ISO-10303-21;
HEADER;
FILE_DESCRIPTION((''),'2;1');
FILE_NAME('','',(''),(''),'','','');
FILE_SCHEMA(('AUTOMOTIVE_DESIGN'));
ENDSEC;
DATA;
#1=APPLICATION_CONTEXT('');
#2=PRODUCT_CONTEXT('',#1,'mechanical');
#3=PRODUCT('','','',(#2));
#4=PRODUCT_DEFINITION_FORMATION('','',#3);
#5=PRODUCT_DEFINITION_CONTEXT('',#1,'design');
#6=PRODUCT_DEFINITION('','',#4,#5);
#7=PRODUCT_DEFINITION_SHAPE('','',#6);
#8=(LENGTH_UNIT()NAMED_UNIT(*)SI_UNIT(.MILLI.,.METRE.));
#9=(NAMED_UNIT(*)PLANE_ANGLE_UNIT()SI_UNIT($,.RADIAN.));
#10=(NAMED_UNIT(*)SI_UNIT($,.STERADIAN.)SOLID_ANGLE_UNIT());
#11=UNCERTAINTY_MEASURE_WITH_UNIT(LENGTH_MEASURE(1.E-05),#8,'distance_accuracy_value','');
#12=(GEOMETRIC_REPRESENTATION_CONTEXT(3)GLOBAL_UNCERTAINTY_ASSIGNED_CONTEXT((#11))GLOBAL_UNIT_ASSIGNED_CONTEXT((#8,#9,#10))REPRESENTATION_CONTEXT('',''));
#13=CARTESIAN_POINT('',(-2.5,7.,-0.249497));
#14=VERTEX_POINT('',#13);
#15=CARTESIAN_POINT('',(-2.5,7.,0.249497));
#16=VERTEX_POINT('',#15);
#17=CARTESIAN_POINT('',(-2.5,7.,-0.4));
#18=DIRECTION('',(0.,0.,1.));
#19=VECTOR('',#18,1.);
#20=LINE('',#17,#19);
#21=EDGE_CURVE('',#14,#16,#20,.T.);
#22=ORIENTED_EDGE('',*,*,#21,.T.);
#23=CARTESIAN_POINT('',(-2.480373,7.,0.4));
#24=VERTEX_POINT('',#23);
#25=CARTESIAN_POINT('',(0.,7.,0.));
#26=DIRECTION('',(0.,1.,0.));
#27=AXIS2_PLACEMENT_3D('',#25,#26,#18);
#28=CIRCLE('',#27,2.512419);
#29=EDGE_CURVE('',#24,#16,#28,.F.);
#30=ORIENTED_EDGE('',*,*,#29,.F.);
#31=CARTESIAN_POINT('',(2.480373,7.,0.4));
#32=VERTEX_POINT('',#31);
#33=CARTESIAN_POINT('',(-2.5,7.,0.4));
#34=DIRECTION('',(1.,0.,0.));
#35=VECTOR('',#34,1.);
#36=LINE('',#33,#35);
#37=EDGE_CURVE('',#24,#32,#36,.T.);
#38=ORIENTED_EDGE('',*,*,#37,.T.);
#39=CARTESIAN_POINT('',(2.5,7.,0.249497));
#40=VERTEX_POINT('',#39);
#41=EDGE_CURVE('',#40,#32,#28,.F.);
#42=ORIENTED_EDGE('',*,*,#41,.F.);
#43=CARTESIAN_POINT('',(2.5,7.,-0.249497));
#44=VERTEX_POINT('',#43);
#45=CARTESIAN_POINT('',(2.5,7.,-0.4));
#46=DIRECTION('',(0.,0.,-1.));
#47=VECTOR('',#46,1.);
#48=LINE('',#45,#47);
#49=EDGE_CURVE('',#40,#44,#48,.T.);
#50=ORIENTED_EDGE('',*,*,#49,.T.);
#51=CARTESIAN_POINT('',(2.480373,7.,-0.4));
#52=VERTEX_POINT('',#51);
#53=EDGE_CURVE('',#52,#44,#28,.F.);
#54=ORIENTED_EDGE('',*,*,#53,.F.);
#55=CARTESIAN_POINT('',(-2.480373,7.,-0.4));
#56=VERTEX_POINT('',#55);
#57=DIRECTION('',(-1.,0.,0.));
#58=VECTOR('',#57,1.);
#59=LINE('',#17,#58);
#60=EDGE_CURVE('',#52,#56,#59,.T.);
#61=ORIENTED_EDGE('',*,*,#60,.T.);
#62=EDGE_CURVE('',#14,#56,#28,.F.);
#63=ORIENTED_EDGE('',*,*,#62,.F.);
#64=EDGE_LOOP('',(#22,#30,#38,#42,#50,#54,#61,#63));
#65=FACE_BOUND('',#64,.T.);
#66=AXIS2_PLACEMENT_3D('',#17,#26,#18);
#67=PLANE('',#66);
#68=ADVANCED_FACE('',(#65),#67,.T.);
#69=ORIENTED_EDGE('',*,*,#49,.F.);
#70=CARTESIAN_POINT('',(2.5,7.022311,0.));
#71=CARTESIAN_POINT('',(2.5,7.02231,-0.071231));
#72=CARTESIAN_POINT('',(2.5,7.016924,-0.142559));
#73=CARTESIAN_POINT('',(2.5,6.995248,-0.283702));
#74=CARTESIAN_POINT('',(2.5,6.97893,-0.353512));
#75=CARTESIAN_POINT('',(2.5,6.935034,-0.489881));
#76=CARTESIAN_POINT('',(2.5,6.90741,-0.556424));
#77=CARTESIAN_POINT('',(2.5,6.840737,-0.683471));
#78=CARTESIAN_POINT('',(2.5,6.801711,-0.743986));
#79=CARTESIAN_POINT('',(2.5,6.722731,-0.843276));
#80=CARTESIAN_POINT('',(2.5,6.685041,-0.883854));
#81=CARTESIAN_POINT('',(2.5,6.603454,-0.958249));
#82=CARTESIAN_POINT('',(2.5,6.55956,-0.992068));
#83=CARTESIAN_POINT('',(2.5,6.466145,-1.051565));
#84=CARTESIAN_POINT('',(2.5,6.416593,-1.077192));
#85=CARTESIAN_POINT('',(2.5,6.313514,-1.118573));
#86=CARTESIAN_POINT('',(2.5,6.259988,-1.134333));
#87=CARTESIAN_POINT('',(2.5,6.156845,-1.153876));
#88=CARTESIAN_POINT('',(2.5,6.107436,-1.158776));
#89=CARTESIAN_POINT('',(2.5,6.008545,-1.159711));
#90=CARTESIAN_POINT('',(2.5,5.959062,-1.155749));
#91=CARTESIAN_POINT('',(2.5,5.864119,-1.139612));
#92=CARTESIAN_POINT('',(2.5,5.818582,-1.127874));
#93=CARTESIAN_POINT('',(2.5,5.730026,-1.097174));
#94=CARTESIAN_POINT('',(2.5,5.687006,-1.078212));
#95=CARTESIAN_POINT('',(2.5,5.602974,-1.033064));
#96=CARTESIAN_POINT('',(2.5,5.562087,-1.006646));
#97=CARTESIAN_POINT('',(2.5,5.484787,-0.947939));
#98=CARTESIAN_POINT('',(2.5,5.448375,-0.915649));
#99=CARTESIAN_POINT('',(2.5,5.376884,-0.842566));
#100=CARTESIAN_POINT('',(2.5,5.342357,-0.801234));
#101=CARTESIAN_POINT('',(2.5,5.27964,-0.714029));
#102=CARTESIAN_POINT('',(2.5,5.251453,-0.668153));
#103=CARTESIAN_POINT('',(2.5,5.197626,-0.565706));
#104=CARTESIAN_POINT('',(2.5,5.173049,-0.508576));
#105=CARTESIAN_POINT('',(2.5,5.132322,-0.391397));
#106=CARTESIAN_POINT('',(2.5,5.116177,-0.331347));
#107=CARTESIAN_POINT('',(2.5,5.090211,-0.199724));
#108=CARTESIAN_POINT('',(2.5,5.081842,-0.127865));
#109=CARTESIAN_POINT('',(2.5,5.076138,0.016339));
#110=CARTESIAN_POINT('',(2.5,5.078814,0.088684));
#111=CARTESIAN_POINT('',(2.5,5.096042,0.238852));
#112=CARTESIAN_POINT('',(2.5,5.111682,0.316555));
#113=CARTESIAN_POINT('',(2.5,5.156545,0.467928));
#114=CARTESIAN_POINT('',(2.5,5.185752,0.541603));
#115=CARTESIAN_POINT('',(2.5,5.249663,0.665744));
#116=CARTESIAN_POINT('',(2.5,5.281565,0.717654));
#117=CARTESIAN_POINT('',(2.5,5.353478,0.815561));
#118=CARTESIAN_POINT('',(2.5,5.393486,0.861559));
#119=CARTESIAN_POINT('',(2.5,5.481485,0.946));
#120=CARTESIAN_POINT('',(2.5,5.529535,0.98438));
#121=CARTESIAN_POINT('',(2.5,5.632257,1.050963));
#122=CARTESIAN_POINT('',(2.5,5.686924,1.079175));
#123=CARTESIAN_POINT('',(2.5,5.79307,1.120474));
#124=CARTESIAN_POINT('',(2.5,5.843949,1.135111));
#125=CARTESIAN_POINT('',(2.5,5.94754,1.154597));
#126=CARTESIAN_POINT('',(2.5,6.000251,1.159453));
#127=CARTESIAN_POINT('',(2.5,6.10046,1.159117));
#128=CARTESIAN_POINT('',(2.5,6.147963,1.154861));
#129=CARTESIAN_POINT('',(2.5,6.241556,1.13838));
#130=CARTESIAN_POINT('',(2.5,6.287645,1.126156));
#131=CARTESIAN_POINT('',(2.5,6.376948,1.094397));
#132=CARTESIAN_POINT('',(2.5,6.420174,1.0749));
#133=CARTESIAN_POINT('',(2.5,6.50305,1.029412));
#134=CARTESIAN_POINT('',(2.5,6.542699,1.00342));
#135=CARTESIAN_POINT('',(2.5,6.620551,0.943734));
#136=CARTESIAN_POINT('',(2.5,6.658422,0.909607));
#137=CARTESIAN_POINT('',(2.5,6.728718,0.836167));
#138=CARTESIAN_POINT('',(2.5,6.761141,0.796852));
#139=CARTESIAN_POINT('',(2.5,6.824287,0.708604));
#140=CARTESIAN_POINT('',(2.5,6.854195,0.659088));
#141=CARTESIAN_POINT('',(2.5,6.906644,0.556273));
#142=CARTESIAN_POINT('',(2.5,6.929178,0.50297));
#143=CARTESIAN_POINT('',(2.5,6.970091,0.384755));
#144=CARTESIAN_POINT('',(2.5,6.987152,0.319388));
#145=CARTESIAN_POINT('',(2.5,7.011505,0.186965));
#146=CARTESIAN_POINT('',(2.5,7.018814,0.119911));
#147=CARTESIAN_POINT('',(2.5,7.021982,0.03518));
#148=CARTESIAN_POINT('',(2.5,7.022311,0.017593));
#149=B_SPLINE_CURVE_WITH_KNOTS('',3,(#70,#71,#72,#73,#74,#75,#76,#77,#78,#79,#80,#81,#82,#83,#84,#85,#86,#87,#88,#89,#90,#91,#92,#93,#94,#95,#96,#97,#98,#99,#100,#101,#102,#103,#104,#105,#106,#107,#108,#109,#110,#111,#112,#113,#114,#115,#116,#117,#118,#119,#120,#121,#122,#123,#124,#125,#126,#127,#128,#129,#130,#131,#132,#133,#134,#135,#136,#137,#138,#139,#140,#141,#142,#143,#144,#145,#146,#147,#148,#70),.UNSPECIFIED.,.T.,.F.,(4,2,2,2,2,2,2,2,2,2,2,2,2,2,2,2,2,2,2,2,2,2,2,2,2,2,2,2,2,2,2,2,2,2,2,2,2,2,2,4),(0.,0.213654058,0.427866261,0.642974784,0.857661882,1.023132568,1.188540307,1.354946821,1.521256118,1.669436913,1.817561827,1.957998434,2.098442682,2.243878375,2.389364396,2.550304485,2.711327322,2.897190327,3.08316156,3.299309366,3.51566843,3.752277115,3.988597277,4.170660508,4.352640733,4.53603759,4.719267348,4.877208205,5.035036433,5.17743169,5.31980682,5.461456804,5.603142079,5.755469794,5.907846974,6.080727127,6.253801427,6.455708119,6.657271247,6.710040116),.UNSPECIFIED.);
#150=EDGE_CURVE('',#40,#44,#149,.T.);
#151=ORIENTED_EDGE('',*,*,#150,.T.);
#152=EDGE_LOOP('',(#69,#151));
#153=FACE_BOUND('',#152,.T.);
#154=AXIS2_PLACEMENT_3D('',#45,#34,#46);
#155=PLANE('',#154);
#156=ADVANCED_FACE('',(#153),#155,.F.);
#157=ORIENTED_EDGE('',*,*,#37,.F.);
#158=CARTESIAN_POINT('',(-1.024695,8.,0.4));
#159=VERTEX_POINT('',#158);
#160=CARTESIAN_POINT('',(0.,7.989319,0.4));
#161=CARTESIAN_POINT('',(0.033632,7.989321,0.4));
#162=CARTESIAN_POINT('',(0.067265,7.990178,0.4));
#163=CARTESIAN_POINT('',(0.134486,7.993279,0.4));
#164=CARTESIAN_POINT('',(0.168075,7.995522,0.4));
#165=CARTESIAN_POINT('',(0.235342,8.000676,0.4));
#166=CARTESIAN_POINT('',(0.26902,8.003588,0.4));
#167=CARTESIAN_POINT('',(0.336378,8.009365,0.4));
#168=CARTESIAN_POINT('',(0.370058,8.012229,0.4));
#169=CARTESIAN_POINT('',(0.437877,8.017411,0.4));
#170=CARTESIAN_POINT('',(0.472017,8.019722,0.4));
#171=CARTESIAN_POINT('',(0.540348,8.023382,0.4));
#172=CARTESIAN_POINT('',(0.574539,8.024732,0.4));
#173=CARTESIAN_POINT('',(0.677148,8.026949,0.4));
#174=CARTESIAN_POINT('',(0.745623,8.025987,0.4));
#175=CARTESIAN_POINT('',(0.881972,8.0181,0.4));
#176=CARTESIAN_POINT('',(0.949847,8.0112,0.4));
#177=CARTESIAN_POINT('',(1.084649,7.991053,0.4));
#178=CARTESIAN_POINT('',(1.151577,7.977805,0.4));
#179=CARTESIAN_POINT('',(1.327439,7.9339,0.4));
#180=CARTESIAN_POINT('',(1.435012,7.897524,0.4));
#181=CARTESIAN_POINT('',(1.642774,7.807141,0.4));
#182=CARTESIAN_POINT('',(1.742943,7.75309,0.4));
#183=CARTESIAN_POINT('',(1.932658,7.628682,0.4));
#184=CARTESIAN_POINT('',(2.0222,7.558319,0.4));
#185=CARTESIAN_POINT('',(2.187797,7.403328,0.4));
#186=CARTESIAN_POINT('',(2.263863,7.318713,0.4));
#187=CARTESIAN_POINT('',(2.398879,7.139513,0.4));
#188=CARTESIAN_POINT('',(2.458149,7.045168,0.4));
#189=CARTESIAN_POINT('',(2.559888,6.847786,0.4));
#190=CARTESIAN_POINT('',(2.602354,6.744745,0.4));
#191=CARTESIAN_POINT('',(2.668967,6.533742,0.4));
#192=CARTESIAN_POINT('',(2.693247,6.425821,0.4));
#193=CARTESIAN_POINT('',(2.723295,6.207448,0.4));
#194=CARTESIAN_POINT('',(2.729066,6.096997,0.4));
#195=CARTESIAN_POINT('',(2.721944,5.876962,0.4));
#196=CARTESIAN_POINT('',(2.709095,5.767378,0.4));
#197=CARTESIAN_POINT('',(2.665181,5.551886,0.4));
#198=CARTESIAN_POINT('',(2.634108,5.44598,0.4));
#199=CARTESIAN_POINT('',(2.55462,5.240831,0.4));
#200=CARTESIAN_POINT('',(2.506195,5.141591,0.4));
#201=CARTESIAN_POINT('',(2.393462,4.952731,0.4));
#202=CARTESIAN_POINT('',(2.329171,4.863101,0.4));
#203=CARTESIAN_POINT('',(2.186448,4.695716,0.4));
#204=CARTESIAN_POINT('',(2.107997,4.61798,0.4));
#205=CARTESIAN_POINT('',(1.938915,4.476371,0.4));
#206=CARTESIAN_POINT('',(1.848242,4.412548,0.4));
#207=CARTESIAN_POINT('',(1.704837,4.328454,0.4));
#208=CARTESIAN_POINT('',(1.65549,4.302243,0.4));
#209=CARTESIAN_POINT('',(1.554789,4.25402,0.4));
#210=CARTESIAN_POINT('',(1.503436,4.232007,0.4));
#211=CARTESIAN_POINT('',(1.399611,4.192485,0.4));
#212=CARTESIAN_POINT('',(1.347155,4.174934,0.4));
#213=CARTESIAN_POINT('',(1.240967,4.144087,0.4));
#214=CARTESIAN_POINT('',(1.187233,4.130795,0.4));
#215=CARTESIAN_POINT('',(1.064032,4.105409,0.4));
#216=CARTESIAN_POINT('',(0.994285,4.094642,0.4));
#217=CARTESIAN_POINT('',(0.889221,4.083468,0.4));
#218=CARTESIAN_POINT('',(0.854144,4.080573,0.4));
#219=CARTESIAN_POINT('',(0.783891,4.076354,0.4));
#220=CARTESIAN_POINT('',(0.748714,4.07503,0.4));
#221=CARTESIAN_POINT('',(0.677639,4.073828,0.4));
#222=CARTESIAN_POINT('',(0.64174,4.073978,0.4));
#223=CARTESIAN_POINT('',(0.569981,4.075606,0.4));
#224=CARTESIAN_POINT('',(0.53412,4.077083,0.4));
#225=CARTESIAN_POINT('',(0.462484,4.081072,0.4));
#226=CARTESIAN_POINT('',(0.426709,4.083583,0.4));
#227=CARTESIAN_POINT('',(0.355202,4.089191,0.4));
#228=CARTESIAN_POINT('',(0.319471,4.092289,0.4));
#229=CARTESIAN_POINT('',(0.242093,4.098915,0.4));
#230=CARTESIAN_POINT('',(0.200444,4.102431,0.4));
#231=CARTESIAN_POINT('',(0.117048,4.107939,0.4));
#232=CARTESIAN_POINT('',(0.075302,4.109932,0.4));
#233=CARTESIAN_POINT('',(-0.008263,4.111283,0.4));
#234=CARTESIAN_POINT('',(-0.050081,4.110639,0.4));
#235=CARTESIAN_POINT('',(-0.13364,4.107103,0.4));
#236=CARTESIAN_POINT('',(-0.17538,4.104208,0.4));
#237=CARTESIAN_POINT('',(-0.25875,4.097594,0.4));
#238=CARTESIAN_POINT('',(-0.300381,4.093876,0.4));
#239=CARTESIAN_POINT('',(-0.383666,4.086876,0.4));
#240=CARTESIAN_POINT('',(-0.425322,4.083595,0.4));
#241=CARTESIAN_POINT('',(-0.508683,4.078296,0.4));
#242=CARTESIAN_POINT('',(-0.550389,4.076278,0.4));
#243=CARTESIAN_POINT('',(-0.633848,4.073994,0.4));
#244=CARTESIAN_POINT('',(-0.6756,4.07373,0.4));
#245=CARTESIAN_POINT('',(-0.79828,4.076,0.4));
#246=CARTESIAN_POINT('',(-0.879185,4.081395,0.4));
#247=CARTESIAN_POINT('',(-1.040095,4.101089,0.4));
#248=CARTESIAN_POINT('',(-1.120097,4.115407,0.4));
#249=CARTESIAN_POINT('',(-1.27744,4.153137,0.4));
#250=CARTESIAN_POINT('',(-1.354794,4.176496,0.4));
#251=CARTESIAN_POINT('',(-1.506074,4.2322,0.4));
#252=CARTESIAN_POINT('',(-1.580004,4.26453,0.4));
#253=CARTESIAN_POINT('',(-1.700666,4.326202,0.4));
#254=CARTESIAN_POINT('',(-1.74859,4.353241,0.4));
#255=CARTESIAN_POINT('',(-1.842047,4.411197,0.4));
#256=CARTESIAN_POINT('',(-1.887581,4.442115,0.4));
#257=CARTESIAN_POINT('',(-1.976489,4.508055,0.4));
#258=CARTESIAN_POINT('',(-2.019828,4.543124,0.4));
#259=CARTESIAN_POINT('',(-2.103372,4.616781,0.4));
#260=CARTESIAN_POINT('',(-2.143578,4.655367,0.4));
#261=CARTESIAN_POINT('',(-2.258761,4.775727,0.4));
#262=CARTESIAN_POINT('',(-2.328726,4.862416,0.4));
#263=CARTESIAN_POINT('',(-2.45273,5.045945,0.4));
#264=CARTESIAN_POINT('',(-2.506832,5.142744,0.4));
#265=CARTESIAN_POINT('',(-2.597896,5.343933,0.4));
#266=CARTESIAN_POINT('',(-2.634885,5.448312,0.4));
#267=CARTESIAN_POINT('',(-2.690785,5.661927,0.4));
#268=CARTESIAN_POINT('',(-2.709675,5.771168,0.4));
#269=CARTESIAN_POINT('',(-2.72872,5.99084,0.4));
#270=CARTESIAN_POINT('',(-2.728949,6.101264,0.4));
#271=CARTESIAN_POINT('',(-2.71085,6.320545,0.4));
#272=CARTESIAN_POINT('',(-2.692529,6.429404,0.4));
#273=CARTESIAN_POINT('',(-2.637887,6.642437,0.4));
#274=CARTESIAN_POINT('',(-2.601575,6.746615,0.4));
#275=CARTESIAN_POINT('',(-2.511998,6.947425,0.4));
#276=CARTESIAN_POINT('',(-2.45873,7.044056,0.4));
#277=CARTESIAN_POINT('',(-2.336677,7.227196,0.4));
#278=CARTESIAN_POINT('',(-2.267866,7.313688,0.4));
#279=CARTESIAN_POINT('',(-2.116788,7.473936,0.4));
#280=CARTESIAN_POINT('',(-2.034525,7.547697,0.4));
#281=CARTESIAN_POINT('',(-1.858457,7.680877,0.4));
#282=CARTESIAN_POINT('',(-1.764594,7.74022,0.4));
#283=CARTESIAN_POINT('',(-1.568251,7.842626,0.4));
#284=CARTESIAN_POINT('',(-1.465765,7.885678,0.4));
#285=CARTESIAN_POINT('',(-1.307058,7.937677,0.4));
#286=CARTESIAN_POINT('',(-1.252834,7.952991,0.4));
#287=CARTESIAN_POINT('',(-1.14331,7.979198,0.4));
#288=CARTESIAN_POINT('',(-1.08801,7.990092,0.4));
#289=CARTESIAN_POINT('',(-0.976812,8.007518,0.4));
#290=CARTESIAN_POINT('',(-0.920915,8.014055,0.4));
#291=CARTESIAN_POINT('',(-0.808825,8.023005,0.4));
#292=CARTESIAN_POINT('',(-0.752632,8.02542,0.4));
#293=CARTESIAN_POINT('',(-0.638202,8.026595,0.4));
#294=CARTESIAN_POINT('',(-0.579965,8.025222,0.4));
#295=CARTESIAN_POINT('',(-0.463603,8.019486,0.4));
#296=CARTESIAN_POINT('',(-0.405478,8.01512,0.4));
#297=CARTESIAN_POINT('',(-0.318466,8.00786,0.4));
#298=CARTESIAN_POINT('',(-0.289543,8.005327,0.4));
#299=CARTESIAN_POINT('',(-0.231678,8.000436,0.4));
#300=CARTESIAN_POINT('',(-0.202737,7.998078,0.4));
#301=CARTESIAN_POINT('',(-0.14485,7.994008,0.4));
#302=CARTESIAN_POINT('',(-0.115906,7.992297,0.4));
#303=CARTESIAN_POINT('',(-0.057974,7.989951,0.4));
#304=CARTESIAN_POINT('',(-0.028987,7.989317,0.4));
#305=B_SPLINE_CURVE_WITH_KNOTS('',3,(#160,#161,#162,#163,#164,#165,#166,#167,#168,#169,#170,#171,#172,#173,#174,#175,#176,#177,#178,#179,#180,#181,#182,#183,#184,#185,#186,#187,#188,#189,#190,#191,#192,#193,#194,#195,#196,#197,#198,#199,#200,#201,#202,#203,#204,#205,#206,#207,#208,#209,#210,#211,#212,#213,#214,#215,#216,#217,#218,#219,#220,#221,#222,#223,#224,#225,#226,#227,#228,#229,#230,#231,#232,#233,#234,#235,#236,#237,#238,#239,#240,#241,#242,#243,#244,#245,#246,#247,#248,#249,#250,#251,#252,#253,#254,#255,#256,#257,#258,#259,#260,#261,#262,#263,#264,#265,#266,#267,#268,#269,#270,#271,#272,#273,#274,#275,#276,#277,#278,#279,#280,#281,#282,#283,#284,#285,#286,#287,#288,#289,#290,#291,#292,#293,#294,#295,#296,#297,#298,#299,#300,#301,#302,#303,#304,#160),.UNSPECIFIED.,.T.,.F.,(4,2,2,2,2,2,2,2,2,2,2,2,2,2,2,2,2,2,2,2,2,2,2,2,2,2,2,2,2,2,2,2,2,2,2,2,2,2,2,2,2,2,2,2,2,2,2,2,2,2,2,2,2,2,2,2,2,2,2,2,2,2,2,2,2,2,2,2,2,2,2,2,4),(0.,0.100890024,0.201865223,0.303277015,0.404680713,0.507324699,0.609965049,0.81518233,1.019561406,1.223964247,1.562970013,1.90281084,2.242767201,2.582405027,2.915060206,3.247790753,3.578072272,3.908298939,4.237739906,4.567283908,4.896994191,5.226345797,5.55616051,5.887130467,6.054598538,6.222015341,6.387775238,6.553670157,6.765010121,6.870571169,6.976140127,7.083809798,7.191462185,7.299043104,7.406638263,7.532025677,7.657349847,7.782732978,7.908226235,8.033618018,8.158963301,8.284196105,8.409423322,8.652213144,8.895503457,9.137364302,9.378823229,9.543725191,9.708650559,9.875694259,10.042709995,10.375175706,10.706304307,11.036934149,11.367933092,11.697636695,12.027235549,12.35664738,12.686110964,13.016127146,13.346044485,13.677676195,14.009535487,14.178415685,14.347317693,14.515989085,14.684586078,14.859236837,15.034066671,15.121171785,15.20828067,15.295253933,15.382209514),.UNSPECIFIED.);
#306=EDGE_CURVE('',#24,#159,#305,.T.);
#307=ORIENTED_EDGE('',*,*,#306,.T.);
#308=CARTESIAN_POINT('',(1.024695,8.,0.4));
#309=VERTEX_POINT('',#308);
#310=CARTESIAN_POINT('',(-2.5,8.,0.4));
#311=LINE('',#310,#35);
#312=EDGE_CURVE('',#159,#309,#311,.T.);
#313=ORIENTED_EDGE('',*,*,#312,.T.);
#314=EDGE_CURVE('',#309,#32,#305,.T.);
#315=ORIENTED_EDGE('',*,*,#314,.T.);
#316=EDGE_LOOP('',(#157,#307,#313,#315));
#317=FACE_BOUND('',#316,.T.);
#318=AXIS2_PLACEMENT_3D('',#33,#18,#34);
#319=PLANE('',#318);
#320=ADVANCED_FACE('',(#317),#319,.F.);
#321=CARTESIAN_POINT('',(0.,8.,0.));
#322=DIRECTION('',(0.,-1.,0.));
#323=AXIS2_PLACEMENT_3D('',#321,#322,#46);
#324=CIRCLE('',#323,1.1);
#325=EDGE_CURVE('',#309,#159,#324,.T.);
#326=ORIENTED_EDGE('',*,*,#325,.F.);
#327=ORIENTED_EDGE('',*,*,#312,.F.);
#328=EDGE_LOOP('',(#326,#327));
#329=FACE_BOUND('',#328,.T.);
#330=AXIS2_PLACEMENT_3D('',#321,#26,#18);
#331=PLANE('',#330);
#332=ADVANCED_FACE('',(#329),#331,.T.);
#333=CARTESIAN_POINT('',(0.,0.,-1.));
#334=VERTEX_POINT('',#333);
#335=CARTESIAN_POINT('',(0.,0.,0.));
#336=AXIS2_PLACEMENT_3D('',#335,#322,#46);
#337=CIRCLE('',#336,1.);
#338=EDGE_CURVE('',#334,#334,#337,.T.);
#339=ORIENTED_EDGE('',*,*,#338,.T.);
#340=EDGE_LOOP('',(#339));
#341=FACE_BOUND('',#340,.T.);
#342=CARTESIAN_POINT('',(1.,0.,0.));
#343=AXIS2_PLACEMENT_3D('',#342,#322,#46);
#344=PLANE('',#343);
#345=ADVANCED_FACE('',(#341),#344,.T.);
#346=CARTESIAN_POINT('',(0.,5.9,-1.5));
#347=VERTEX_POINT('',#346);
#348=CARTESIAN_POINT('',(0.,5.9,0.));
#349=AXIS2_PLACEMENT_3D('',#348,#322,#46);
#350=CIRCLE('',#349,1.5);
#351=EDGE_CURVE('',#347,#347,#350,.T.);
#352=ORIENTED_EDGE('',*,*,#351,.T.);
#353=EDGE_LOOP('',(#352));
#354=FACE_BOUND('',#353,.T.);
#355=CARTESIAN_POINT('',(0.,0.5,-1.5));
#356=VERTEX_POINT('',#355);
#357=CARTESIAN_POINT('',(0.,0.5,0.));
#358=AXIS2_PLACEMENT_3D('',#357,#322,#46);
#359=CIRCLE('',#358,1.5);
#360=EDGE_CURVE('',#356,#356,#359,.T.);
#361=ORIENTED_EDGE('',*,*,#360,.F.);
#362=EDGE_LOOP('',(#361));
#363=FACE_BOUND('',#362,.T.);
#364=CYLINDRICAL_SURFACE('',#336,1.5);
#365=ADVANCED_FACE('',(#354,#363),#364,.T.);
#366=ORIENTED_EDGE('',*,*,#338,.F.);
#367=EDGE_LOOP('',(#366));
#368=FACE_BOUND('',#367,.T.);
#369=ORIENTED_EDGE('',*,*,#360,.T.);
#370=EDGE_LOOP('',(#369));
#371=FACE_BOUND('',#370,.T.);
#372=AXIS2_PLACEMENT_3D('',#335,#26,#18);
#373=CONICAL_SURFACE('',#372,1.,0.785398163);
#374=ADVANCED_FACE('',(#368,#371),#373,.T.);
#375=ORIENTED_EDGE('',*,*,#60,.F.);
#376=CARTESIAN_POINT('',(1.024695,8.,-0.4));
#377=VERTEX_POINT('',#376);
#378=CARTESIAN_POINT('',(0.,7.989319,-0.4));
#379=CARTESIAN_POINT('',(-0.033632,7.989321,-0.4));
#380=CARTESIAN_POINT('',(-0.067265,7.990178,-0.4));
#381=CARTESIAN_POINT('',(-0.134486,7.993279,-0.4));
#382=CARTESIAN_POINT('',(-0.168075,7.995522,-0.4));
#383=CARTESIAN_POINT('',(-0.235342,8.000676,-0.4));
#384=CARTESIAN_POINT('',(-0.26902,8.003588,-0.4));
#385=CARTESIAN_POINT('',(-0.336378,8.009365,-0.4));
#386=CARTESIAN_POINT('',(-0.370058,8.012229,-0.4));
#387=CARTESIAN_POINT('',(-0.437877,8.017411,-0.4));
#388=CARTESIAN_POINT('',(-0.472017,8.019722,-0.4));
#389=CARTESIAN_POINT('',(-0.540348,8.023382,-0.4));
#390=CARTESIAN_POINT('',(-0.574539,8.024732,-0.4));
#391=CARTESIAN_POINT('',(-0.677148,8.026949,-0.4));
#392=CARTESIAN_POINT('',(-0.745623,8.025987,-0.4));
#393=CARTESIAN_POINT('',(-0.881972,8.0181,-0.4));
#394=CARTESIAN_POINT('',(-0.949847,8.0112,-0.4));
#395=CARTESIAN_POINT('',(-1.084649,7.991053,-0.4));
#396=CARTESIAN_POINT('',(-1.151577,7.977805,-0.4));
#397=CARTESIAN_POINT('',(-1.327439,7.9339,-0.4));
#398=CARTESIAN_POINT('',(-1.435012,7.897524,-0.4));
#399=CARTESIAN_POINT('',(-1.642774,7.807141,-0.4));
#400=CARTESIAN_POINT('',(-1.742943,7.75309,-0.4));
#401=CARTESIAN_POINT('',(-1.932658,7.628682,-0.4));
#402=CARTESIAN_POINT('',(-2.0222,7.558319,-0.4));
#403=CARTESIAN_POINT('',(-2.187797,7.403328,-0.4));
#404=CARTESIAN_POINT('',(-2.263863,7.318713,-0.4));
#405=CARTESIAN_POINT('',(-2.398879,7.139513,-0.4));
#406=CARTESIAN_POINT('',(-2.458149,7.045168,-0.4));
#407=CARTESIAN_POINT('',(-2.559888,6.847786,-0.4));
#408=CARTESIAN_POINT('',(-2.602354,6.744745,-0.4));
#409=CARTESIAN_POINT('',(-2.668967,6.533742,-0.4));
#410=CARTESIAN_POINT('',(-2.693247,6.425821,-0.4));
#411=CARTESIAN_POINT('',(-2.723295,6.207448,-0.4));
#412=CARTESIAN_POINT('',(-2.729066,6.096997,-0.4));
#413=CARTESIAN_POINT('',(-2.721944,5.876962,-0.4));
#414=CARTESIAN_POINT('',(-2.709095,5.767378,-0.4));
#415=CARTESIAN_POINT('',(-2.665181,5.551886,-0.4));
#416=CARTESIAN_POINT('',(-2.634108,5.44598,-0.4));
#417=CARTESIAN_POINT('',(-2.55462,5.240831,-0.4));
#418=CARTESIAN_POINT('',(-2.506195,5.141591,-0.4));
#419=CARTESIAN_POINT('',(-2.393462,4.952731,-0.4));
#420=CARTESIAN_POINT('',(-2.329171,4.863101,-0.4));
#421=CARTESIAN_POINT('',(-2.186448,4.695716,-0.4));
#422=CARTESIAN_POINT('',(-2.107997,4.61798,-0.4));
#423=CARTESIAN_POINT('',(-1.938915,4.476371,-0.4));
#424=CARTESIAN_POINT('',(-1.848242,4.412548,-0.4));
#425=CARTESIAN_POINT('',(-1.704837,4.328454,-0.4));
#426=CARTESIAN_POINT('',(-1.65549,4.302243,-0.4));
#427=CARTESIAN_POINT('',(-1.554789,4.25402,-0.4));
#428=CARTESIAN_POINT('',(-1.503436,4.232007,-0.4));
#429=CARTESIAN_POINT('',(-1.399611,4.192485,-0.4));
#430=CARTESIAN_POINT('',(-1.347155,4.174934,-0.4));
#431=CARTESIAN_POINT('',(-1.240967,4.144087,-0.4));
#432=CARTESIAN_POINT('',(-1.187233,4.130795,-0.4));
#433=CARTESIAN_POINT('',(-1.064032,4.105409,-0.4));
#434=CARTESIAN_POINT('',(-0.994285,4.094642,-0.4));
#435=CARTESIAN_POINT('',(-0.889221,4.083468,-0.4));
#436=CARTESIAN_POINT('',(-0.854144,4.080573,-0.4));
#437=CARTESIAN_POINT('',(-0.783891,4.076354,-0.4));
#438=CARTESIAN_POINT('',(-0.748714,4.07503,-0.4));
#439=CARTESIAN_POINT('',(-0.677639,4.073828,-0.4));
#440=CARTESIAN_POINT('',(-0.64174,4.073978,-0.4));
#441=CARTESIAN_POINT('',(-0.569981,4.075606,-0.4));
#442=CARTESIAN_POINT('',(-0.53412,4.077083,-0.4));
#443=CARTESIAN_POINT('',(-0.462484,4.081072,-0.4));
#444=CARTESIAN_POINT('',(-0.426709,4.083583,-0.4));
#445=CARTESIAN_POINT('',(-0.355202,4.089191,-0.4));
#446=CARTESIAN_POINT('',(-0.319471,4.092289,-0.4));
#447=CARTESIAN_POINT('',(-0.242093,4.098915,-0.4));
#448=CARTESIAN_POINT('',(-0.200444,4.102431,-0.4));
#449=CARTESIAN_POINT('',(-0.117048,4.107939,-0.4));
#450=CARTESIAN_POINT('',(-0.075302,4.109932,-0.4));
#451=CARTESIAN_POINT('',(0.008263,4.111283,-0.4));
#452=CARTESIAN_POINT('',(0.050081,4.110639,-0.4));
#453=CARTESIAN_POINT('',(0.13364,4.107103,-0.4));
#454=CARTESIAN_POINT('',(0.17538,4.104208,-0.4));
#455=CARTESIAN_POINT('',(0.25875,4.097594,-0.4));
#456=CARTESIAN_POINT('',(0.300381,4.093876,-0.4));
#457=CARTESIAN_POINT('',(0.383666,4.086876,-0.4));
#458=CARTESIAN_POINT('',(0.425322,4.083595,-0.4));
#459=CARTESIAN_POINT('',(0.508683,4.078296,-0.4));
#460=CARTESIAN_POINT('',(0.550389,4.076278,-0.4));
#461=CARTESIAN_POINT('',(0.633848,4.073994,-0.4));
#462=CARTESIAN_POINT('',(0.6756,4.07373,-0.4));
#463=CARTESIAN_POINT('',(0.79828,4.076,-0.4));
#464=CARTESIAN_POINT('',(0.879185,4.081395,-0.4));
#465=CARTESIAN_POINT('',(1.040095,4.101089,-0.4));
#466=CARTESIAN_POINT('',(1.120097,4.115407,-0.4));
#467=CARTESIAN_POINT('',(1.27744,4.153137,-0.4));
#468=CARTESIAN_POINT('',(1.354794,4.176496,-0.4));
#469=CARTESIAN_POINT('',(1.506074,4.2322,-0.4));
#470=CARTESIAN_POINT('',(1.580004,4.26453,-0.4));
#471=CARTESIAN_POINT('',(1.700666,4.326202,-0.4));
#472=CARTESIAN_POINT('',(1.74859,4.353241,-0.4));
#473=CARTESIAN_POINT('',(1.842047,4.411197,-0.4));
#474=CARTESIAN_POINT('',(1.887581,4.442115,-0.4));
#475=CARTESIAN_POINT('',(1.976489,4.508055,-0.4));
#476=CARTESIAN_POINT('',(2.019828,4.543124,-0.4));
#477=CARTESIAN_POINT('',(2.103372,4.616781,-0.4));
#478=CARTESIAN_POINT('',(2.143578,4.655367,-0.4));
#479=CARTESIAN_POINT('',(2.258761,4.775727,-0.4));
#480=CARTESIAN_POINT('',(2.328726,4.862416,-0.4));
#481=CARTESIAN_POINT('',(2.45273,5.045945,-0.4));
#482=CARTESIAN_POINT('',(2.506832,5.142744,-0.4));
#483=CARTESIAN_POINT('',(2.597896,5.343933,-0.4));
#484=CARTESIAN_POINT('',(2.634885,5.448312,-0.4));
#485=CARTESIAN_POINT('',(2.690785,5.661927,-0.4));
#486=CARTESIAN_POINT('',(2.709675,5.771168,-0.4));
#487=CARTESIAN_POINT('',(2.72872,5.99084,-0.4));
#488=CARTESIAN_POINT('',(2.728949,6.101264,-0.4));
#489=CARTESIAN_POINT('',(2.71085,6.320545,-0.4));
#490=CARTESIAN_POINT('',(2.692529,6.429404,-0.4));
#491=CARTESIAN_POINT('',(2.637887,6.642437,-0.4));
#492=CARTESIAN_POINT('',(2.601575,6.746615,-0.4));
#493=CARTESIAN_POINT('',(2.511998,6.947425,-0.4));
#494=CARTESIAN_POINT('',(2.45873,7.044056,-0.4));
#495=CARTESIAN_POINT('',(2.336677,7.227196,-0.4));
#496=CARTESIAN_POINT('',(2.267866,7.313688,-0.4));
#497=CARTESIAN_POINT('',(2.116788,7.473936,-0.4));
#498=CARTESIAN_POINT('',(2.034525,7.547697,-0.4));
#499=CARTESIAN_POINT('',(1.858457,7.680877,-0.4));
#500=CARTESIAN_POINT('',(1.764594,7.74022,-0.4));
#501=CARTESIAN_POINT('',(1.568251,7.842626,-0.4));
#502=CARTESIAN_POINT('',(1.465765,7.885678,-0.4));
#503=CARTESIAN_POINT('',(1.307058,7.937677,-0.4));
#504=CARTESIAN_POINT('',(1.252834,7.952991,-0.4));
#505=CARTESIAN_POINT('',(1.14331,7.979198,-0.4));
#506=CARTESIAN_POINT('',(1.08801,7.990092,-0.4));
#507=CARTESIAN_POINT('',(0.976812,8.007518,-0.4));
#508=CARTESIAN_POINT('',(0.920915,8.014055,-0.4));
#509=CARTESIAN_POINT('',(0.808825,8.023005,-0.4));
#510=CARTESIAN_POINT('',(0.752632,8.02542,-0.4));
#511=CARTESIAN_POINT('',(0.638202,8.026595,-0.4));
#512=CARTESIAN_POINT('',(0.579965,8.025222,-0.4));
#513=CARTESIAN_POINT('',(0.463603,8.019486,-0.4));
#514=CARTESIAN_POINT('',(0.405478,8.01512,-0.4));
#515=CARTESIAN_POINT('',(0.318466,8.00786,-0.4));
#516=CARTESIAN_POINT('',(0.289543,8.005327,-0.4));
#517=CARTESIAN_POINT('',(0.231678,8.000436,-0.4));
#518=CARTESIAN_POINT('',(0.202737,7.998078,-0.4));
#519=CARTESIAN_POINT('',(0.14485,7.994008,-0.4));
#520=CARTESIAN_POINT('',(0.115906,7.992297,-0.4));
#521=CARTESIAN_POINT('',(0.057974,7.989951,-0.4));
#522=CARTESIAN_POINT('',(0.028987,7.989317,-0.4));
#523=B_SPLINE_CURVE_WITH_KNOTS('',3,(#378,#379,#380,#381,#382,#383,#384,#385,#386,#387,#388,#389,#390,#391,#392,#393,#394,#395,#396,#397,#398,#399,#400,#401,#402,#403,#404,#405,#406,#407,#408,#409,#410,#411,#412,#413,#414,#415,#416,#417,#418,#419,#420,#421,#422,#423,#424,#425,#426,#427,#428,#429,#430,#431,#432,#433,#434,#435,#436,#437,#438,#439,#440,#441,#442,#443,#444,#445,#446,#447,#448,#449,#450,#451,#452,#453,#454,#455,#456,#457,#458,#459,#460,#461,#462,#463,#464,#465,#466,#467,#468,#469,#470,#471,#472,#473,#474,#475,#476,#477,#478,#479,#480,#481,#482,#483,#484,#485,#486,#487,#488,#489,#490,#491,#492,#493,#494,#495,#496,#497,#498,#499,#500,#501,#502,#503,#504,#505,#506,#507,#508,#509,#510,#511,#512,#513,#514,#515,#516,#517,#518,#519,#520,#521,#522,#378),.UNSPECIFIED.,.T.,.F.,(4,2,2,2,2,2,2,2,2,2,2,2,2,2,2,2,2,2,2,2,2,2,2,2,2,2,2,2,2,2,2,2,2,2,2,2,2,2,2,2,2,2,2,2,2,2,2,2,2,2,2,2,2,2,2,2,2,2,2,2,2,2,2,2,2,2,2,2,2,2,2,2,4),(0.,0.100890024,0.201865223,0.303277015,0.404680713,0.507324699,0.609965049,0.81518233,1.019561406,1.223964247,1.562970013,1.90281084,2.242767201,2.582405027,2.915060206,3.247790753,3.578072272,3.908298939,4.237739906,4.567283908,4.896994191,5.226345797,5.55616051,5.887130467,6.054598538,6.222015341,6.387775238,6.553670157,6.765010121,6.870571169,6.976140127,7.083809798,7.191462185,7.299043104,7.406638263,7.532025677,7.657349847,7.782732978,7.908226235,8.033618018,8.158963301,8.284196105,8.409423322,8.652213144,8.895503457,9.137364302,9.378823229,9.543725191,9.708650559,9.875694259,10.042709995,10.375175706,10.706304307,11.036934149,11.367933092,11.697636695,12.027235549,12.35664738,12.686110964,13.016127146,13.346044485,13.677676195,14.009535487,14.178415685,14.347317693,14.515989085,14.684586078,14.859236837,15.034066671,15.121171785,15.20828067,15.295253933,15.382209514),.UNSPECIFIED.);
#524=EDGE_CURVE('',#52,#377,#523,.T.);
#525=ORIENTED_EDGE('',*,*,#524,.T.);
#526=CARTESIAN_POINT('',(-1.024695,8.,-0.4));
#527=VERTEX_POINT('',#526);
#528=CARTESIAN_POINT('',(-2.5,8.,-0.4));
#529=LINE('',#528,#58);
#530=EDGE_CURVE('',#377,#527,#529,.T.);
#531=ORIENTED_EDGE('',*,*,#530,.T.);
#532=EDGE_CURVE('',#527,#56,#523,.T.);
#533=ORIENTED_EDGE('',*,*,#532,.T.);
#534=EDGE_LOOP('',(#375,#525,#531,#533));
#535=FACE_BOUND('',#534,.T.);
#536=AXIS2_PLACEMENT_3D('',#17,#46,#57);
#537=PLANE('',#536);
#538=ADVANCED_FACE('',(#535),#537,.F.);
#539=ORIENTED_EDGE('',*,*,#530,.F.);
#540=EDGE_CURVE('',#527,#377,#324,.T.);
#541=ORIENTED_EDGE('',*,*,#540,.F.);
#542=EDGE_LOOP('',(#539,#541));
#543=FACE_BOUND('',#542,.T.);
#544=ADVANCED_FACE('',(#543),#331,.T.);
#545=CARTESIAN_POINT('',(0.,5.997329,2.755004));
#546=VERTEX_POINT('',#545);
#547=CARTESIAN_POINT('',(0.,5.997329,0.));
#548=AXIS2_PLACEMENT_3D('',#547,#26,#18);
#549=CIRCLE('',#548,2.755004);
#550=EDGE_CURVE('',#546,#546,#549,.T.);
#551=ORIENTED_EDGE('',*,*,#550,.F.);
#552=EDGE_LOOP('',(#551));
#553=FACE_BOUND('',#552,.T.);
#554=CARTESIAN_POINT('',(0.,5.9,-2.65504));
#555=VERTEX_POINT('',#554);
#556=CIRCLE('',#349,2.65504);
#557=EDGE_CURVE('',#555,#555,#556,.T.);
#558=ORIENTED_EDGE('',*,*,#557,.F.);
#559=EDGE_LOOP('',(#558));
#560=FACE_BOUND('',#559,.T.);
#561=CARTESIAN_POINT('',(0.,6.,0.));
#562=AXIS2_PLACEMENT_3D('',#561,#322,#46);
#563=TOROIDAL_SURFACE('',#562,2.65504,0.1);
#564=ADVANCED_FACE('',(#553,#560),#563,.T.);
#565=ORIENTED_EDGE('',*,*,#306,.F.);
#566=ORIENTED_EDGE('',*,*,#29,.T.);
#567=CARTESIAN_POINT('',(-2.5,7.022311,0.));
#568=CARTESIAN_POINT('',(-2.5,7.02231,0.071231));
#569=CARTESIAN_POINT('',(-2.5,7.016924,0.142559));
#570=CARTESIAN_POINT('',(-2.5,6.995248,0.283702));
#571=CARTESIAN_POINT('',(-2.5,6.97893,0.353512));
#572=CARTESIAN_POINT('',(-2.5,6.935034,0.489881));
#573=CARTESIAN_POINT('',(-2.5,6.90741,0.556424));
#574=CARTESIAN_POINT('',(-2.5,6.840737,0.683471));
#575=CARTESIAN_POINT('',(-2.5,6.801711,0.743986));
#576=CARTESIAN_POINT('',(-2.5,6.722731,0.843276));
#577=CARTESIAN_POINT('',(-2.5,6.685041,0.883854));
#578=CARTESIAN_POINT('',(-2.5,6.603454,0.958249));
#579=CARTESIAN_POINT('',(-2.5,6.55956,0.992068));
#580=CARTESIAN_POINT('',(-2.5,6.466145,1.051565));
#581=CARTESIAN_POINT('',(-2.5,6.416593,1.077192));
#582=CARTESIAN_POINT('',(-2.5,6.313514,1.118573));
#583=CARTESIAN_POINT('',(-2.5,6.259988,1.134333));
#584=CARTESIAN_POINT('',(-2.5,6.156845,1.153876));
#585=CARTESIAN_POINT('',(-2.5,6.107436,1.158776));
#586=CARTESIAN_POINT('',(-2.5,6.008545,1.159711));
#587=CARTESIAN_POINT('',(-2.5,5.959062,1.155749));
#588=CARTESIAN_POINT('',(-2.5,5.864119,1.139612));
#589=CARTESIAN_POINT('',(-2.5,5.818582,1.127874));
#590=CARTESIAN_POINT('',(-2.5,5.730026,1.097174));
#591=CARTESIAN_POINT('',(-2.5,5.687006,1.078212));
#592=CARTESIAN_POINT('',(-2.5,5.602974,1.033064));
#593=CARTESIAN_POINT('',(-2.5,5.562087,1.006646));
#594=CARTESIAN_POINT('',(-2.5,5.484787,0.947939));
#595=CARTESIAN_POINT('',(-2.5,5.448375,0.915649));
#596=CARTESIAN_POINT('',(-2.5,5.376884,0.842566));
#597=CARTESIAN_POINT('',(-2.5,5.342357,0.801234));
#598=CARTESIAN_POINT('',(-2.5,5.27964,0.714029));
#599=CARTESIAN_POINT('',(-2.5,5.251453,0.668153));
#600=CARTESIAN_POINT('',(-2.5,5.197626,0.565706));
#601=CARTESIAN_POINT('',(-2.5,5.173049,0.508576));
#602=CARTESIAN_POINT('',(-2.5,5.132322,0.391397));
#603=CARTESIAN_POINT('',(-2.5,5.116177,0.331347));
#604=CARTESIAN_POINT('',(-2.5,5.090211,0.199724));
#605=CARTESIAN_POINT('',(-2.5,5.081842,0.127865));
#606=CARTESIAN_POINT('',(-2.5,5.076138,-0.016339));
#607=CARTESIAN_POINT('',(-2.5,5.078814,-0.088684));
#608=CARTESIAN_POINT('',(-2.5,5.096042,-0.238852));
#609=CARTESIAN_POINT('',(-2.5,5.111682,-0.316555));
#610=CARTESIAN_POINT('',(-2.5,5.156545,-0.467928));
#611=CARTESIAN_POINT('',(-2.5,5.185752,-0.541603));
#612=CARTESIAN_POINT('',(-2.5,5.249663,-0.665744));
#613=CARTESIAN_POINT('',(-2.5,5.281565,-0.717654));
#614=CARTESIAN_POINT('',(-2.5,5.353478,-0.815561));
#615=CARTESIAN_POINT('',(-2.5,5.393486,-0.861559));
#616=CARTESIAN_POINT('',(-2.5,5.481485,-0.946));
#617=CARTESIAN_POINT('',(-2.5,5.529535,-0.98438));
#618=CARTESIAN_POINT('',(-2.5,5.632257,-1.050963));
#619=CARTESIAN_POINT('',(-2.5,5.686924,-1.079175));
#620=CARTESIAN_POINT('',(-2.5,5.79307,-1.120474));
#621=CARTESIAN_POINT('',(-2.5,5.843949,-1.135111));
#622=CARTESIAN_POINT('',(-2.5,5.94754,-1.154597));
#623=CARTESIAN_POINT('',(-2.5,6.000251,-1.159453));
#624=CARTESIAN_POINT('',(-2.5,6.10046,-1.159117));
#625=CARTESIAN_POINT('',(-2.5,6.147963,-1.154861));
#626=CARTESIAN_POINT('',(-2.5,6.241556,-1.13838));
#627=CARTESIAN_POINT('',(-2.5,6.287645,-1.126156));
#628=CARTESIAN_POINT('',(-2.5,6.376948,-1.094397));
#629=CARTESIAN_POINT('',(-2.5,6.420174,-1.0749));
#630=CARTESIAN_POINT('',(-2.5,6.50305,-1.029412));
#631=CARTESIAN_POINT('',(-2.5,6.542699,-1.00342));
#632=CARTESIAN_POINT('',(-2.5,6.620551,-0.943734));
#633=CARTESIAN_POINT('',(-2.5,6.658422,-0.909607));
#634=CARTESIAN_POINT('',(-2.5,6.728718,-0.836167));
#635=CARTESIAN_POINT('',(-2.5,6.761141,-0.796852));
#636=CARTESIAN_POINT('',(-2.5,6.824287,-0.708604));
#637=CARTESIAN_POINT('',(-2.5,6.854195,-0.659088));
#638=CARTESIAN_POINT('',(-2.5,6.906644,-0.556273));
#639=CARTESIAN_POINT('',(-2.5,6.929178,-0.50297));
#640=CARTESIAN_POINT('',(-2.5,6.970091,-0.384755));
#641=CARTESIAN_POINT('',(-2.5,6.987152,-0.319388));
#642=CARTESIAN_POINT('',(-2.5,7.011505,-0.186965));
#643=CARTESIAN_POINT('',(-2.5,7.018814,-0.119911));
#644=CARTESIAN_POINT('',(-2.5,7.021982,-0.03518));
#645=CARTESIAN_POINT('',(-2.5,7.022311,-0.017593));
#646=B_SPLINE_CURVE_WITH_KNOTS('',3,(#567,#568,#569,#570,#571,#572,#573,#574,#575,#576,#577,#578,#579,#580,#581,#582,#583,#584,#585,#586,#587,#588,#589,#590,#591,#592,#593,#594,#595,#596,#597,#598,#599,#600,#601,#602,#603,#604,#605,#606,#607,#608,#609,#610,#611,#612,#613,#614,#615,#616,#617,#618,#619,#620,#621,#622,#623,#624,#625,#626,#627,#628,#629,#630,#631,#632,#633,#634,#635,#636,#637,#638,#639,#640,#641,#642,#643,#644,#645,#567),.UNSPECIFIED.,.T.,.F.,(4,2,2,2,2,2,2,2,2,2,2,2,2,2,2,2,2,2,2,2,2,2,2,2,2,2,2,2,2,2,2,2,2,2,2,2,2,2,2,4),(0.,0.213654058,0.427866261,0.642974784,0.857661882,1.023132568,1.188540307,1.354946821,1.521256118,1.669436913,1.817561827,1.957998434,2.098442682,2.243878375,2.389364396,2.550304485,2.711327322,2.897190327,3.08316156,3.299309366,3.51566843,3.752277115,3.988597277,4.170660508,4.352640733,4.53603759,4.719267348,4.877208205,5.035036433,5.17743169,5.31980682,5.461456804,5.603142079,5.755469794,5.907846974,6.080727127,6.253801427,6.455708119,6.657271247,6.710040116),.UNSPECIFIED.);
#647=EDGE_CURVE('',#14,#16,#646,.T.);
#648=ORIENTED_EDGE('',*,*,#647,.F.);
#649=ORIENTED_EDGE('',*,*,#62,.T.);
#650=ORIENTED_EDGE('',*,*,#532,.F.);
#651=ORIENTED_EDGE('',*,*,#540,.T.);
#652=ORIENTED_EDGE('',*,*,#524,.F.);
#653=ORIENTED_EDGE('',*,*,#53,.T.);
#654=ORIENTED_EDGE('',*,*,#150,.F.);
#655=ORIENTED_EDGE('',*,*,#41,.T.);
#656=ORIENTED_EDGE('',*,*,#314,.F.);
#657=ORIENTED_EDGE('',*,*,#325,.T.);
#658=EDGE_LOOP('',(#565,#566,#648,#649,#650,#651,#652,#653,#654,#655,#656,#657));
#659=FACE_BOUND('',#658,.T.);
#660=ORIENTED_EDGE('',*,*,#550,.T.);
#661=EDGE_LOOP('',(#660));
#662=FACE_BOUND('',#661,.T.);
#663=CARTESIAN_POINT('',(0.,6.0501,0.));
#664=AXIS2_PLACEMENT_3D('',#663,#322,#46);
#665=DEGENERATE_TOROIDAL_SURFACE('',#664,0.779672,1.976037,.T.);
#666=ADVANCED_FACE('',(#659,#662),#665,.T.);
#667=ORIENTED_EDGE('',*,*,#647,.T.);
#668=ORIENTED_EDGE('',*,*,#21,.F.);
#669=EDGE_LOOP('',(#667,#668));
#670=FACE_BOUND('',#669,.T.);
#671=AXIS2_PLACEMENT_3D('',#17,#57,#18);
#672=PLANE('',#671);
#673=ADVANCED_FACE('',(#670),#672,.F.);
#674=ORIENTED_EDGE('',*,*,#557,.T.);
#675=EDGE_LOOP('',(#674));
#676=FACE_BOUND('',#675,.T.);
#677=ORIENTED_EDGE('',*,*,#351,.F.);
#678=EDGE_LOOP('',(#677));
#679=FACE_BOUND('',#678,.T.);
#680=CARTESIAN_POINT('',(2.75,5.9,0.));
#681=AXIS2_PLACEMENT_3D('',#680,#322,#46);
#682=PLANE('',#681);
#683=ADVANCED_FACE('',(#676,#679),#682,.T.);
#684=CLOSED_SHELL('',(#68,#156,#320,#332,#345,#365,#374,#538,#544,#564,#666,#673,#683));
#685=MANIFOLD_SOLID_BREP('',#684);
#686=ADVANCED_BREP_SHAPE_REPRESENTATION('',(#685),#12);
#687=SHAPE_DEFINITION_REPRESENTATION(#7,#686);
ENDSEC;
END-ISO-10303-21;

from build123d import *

# Parameters (mm, degrees)
FILLET_1_R          = 0.1
SKETCH_3_W          = 5
SKETCH_3_H          = 0.8
CUT_EXTRUDE_2_DEPTH = 1


with BuildPart() as part:
    # Эскиз1 → Повернуть1 (revolve)
    with BuildSketch(Plane.XY):
        with BuildLine():
            Line((2.75, 5.9), (1.5, 5.9))
            Line((1.5, 5.9), (1.5, 0.5))
            Line((1.5, 0.5), (1, 0))
            Line((1, 0), (0, 0))
            Line((0, 0), (0, 8))
            Line((0, 8), (1.1, 8))
            ThreePointArc((1.1, 8), (2.333466256, 7.270937772), (2.75, 5.9))
        make_face()
    revolve(axis=Axis((0, 0, 0), (0, 1, 0)))

    # Скругление1
    fillet_1_edges = [part.edges().sort_by_distance(p)[0] for p in [
        (-2.75, 5.9, 0),
    ]]
    fillet(fillet_1_edges, radius=FILLET_1_R)

    # Эскиз3 → Вырез-Вытянуть2 (cut)
    with BuildSketch(Plane(origin=(0, 8, 0), x_dir=(-1, 0, 0), z_dir=(0, 1, 0))):
        Rectangle(SKETCH_3_W, SKETCH_3_H)
    extrude(amount=-CUT_EXTRUDE_2_DEPTH, mode=Mode.SUBTRACT)


solid = part.part
